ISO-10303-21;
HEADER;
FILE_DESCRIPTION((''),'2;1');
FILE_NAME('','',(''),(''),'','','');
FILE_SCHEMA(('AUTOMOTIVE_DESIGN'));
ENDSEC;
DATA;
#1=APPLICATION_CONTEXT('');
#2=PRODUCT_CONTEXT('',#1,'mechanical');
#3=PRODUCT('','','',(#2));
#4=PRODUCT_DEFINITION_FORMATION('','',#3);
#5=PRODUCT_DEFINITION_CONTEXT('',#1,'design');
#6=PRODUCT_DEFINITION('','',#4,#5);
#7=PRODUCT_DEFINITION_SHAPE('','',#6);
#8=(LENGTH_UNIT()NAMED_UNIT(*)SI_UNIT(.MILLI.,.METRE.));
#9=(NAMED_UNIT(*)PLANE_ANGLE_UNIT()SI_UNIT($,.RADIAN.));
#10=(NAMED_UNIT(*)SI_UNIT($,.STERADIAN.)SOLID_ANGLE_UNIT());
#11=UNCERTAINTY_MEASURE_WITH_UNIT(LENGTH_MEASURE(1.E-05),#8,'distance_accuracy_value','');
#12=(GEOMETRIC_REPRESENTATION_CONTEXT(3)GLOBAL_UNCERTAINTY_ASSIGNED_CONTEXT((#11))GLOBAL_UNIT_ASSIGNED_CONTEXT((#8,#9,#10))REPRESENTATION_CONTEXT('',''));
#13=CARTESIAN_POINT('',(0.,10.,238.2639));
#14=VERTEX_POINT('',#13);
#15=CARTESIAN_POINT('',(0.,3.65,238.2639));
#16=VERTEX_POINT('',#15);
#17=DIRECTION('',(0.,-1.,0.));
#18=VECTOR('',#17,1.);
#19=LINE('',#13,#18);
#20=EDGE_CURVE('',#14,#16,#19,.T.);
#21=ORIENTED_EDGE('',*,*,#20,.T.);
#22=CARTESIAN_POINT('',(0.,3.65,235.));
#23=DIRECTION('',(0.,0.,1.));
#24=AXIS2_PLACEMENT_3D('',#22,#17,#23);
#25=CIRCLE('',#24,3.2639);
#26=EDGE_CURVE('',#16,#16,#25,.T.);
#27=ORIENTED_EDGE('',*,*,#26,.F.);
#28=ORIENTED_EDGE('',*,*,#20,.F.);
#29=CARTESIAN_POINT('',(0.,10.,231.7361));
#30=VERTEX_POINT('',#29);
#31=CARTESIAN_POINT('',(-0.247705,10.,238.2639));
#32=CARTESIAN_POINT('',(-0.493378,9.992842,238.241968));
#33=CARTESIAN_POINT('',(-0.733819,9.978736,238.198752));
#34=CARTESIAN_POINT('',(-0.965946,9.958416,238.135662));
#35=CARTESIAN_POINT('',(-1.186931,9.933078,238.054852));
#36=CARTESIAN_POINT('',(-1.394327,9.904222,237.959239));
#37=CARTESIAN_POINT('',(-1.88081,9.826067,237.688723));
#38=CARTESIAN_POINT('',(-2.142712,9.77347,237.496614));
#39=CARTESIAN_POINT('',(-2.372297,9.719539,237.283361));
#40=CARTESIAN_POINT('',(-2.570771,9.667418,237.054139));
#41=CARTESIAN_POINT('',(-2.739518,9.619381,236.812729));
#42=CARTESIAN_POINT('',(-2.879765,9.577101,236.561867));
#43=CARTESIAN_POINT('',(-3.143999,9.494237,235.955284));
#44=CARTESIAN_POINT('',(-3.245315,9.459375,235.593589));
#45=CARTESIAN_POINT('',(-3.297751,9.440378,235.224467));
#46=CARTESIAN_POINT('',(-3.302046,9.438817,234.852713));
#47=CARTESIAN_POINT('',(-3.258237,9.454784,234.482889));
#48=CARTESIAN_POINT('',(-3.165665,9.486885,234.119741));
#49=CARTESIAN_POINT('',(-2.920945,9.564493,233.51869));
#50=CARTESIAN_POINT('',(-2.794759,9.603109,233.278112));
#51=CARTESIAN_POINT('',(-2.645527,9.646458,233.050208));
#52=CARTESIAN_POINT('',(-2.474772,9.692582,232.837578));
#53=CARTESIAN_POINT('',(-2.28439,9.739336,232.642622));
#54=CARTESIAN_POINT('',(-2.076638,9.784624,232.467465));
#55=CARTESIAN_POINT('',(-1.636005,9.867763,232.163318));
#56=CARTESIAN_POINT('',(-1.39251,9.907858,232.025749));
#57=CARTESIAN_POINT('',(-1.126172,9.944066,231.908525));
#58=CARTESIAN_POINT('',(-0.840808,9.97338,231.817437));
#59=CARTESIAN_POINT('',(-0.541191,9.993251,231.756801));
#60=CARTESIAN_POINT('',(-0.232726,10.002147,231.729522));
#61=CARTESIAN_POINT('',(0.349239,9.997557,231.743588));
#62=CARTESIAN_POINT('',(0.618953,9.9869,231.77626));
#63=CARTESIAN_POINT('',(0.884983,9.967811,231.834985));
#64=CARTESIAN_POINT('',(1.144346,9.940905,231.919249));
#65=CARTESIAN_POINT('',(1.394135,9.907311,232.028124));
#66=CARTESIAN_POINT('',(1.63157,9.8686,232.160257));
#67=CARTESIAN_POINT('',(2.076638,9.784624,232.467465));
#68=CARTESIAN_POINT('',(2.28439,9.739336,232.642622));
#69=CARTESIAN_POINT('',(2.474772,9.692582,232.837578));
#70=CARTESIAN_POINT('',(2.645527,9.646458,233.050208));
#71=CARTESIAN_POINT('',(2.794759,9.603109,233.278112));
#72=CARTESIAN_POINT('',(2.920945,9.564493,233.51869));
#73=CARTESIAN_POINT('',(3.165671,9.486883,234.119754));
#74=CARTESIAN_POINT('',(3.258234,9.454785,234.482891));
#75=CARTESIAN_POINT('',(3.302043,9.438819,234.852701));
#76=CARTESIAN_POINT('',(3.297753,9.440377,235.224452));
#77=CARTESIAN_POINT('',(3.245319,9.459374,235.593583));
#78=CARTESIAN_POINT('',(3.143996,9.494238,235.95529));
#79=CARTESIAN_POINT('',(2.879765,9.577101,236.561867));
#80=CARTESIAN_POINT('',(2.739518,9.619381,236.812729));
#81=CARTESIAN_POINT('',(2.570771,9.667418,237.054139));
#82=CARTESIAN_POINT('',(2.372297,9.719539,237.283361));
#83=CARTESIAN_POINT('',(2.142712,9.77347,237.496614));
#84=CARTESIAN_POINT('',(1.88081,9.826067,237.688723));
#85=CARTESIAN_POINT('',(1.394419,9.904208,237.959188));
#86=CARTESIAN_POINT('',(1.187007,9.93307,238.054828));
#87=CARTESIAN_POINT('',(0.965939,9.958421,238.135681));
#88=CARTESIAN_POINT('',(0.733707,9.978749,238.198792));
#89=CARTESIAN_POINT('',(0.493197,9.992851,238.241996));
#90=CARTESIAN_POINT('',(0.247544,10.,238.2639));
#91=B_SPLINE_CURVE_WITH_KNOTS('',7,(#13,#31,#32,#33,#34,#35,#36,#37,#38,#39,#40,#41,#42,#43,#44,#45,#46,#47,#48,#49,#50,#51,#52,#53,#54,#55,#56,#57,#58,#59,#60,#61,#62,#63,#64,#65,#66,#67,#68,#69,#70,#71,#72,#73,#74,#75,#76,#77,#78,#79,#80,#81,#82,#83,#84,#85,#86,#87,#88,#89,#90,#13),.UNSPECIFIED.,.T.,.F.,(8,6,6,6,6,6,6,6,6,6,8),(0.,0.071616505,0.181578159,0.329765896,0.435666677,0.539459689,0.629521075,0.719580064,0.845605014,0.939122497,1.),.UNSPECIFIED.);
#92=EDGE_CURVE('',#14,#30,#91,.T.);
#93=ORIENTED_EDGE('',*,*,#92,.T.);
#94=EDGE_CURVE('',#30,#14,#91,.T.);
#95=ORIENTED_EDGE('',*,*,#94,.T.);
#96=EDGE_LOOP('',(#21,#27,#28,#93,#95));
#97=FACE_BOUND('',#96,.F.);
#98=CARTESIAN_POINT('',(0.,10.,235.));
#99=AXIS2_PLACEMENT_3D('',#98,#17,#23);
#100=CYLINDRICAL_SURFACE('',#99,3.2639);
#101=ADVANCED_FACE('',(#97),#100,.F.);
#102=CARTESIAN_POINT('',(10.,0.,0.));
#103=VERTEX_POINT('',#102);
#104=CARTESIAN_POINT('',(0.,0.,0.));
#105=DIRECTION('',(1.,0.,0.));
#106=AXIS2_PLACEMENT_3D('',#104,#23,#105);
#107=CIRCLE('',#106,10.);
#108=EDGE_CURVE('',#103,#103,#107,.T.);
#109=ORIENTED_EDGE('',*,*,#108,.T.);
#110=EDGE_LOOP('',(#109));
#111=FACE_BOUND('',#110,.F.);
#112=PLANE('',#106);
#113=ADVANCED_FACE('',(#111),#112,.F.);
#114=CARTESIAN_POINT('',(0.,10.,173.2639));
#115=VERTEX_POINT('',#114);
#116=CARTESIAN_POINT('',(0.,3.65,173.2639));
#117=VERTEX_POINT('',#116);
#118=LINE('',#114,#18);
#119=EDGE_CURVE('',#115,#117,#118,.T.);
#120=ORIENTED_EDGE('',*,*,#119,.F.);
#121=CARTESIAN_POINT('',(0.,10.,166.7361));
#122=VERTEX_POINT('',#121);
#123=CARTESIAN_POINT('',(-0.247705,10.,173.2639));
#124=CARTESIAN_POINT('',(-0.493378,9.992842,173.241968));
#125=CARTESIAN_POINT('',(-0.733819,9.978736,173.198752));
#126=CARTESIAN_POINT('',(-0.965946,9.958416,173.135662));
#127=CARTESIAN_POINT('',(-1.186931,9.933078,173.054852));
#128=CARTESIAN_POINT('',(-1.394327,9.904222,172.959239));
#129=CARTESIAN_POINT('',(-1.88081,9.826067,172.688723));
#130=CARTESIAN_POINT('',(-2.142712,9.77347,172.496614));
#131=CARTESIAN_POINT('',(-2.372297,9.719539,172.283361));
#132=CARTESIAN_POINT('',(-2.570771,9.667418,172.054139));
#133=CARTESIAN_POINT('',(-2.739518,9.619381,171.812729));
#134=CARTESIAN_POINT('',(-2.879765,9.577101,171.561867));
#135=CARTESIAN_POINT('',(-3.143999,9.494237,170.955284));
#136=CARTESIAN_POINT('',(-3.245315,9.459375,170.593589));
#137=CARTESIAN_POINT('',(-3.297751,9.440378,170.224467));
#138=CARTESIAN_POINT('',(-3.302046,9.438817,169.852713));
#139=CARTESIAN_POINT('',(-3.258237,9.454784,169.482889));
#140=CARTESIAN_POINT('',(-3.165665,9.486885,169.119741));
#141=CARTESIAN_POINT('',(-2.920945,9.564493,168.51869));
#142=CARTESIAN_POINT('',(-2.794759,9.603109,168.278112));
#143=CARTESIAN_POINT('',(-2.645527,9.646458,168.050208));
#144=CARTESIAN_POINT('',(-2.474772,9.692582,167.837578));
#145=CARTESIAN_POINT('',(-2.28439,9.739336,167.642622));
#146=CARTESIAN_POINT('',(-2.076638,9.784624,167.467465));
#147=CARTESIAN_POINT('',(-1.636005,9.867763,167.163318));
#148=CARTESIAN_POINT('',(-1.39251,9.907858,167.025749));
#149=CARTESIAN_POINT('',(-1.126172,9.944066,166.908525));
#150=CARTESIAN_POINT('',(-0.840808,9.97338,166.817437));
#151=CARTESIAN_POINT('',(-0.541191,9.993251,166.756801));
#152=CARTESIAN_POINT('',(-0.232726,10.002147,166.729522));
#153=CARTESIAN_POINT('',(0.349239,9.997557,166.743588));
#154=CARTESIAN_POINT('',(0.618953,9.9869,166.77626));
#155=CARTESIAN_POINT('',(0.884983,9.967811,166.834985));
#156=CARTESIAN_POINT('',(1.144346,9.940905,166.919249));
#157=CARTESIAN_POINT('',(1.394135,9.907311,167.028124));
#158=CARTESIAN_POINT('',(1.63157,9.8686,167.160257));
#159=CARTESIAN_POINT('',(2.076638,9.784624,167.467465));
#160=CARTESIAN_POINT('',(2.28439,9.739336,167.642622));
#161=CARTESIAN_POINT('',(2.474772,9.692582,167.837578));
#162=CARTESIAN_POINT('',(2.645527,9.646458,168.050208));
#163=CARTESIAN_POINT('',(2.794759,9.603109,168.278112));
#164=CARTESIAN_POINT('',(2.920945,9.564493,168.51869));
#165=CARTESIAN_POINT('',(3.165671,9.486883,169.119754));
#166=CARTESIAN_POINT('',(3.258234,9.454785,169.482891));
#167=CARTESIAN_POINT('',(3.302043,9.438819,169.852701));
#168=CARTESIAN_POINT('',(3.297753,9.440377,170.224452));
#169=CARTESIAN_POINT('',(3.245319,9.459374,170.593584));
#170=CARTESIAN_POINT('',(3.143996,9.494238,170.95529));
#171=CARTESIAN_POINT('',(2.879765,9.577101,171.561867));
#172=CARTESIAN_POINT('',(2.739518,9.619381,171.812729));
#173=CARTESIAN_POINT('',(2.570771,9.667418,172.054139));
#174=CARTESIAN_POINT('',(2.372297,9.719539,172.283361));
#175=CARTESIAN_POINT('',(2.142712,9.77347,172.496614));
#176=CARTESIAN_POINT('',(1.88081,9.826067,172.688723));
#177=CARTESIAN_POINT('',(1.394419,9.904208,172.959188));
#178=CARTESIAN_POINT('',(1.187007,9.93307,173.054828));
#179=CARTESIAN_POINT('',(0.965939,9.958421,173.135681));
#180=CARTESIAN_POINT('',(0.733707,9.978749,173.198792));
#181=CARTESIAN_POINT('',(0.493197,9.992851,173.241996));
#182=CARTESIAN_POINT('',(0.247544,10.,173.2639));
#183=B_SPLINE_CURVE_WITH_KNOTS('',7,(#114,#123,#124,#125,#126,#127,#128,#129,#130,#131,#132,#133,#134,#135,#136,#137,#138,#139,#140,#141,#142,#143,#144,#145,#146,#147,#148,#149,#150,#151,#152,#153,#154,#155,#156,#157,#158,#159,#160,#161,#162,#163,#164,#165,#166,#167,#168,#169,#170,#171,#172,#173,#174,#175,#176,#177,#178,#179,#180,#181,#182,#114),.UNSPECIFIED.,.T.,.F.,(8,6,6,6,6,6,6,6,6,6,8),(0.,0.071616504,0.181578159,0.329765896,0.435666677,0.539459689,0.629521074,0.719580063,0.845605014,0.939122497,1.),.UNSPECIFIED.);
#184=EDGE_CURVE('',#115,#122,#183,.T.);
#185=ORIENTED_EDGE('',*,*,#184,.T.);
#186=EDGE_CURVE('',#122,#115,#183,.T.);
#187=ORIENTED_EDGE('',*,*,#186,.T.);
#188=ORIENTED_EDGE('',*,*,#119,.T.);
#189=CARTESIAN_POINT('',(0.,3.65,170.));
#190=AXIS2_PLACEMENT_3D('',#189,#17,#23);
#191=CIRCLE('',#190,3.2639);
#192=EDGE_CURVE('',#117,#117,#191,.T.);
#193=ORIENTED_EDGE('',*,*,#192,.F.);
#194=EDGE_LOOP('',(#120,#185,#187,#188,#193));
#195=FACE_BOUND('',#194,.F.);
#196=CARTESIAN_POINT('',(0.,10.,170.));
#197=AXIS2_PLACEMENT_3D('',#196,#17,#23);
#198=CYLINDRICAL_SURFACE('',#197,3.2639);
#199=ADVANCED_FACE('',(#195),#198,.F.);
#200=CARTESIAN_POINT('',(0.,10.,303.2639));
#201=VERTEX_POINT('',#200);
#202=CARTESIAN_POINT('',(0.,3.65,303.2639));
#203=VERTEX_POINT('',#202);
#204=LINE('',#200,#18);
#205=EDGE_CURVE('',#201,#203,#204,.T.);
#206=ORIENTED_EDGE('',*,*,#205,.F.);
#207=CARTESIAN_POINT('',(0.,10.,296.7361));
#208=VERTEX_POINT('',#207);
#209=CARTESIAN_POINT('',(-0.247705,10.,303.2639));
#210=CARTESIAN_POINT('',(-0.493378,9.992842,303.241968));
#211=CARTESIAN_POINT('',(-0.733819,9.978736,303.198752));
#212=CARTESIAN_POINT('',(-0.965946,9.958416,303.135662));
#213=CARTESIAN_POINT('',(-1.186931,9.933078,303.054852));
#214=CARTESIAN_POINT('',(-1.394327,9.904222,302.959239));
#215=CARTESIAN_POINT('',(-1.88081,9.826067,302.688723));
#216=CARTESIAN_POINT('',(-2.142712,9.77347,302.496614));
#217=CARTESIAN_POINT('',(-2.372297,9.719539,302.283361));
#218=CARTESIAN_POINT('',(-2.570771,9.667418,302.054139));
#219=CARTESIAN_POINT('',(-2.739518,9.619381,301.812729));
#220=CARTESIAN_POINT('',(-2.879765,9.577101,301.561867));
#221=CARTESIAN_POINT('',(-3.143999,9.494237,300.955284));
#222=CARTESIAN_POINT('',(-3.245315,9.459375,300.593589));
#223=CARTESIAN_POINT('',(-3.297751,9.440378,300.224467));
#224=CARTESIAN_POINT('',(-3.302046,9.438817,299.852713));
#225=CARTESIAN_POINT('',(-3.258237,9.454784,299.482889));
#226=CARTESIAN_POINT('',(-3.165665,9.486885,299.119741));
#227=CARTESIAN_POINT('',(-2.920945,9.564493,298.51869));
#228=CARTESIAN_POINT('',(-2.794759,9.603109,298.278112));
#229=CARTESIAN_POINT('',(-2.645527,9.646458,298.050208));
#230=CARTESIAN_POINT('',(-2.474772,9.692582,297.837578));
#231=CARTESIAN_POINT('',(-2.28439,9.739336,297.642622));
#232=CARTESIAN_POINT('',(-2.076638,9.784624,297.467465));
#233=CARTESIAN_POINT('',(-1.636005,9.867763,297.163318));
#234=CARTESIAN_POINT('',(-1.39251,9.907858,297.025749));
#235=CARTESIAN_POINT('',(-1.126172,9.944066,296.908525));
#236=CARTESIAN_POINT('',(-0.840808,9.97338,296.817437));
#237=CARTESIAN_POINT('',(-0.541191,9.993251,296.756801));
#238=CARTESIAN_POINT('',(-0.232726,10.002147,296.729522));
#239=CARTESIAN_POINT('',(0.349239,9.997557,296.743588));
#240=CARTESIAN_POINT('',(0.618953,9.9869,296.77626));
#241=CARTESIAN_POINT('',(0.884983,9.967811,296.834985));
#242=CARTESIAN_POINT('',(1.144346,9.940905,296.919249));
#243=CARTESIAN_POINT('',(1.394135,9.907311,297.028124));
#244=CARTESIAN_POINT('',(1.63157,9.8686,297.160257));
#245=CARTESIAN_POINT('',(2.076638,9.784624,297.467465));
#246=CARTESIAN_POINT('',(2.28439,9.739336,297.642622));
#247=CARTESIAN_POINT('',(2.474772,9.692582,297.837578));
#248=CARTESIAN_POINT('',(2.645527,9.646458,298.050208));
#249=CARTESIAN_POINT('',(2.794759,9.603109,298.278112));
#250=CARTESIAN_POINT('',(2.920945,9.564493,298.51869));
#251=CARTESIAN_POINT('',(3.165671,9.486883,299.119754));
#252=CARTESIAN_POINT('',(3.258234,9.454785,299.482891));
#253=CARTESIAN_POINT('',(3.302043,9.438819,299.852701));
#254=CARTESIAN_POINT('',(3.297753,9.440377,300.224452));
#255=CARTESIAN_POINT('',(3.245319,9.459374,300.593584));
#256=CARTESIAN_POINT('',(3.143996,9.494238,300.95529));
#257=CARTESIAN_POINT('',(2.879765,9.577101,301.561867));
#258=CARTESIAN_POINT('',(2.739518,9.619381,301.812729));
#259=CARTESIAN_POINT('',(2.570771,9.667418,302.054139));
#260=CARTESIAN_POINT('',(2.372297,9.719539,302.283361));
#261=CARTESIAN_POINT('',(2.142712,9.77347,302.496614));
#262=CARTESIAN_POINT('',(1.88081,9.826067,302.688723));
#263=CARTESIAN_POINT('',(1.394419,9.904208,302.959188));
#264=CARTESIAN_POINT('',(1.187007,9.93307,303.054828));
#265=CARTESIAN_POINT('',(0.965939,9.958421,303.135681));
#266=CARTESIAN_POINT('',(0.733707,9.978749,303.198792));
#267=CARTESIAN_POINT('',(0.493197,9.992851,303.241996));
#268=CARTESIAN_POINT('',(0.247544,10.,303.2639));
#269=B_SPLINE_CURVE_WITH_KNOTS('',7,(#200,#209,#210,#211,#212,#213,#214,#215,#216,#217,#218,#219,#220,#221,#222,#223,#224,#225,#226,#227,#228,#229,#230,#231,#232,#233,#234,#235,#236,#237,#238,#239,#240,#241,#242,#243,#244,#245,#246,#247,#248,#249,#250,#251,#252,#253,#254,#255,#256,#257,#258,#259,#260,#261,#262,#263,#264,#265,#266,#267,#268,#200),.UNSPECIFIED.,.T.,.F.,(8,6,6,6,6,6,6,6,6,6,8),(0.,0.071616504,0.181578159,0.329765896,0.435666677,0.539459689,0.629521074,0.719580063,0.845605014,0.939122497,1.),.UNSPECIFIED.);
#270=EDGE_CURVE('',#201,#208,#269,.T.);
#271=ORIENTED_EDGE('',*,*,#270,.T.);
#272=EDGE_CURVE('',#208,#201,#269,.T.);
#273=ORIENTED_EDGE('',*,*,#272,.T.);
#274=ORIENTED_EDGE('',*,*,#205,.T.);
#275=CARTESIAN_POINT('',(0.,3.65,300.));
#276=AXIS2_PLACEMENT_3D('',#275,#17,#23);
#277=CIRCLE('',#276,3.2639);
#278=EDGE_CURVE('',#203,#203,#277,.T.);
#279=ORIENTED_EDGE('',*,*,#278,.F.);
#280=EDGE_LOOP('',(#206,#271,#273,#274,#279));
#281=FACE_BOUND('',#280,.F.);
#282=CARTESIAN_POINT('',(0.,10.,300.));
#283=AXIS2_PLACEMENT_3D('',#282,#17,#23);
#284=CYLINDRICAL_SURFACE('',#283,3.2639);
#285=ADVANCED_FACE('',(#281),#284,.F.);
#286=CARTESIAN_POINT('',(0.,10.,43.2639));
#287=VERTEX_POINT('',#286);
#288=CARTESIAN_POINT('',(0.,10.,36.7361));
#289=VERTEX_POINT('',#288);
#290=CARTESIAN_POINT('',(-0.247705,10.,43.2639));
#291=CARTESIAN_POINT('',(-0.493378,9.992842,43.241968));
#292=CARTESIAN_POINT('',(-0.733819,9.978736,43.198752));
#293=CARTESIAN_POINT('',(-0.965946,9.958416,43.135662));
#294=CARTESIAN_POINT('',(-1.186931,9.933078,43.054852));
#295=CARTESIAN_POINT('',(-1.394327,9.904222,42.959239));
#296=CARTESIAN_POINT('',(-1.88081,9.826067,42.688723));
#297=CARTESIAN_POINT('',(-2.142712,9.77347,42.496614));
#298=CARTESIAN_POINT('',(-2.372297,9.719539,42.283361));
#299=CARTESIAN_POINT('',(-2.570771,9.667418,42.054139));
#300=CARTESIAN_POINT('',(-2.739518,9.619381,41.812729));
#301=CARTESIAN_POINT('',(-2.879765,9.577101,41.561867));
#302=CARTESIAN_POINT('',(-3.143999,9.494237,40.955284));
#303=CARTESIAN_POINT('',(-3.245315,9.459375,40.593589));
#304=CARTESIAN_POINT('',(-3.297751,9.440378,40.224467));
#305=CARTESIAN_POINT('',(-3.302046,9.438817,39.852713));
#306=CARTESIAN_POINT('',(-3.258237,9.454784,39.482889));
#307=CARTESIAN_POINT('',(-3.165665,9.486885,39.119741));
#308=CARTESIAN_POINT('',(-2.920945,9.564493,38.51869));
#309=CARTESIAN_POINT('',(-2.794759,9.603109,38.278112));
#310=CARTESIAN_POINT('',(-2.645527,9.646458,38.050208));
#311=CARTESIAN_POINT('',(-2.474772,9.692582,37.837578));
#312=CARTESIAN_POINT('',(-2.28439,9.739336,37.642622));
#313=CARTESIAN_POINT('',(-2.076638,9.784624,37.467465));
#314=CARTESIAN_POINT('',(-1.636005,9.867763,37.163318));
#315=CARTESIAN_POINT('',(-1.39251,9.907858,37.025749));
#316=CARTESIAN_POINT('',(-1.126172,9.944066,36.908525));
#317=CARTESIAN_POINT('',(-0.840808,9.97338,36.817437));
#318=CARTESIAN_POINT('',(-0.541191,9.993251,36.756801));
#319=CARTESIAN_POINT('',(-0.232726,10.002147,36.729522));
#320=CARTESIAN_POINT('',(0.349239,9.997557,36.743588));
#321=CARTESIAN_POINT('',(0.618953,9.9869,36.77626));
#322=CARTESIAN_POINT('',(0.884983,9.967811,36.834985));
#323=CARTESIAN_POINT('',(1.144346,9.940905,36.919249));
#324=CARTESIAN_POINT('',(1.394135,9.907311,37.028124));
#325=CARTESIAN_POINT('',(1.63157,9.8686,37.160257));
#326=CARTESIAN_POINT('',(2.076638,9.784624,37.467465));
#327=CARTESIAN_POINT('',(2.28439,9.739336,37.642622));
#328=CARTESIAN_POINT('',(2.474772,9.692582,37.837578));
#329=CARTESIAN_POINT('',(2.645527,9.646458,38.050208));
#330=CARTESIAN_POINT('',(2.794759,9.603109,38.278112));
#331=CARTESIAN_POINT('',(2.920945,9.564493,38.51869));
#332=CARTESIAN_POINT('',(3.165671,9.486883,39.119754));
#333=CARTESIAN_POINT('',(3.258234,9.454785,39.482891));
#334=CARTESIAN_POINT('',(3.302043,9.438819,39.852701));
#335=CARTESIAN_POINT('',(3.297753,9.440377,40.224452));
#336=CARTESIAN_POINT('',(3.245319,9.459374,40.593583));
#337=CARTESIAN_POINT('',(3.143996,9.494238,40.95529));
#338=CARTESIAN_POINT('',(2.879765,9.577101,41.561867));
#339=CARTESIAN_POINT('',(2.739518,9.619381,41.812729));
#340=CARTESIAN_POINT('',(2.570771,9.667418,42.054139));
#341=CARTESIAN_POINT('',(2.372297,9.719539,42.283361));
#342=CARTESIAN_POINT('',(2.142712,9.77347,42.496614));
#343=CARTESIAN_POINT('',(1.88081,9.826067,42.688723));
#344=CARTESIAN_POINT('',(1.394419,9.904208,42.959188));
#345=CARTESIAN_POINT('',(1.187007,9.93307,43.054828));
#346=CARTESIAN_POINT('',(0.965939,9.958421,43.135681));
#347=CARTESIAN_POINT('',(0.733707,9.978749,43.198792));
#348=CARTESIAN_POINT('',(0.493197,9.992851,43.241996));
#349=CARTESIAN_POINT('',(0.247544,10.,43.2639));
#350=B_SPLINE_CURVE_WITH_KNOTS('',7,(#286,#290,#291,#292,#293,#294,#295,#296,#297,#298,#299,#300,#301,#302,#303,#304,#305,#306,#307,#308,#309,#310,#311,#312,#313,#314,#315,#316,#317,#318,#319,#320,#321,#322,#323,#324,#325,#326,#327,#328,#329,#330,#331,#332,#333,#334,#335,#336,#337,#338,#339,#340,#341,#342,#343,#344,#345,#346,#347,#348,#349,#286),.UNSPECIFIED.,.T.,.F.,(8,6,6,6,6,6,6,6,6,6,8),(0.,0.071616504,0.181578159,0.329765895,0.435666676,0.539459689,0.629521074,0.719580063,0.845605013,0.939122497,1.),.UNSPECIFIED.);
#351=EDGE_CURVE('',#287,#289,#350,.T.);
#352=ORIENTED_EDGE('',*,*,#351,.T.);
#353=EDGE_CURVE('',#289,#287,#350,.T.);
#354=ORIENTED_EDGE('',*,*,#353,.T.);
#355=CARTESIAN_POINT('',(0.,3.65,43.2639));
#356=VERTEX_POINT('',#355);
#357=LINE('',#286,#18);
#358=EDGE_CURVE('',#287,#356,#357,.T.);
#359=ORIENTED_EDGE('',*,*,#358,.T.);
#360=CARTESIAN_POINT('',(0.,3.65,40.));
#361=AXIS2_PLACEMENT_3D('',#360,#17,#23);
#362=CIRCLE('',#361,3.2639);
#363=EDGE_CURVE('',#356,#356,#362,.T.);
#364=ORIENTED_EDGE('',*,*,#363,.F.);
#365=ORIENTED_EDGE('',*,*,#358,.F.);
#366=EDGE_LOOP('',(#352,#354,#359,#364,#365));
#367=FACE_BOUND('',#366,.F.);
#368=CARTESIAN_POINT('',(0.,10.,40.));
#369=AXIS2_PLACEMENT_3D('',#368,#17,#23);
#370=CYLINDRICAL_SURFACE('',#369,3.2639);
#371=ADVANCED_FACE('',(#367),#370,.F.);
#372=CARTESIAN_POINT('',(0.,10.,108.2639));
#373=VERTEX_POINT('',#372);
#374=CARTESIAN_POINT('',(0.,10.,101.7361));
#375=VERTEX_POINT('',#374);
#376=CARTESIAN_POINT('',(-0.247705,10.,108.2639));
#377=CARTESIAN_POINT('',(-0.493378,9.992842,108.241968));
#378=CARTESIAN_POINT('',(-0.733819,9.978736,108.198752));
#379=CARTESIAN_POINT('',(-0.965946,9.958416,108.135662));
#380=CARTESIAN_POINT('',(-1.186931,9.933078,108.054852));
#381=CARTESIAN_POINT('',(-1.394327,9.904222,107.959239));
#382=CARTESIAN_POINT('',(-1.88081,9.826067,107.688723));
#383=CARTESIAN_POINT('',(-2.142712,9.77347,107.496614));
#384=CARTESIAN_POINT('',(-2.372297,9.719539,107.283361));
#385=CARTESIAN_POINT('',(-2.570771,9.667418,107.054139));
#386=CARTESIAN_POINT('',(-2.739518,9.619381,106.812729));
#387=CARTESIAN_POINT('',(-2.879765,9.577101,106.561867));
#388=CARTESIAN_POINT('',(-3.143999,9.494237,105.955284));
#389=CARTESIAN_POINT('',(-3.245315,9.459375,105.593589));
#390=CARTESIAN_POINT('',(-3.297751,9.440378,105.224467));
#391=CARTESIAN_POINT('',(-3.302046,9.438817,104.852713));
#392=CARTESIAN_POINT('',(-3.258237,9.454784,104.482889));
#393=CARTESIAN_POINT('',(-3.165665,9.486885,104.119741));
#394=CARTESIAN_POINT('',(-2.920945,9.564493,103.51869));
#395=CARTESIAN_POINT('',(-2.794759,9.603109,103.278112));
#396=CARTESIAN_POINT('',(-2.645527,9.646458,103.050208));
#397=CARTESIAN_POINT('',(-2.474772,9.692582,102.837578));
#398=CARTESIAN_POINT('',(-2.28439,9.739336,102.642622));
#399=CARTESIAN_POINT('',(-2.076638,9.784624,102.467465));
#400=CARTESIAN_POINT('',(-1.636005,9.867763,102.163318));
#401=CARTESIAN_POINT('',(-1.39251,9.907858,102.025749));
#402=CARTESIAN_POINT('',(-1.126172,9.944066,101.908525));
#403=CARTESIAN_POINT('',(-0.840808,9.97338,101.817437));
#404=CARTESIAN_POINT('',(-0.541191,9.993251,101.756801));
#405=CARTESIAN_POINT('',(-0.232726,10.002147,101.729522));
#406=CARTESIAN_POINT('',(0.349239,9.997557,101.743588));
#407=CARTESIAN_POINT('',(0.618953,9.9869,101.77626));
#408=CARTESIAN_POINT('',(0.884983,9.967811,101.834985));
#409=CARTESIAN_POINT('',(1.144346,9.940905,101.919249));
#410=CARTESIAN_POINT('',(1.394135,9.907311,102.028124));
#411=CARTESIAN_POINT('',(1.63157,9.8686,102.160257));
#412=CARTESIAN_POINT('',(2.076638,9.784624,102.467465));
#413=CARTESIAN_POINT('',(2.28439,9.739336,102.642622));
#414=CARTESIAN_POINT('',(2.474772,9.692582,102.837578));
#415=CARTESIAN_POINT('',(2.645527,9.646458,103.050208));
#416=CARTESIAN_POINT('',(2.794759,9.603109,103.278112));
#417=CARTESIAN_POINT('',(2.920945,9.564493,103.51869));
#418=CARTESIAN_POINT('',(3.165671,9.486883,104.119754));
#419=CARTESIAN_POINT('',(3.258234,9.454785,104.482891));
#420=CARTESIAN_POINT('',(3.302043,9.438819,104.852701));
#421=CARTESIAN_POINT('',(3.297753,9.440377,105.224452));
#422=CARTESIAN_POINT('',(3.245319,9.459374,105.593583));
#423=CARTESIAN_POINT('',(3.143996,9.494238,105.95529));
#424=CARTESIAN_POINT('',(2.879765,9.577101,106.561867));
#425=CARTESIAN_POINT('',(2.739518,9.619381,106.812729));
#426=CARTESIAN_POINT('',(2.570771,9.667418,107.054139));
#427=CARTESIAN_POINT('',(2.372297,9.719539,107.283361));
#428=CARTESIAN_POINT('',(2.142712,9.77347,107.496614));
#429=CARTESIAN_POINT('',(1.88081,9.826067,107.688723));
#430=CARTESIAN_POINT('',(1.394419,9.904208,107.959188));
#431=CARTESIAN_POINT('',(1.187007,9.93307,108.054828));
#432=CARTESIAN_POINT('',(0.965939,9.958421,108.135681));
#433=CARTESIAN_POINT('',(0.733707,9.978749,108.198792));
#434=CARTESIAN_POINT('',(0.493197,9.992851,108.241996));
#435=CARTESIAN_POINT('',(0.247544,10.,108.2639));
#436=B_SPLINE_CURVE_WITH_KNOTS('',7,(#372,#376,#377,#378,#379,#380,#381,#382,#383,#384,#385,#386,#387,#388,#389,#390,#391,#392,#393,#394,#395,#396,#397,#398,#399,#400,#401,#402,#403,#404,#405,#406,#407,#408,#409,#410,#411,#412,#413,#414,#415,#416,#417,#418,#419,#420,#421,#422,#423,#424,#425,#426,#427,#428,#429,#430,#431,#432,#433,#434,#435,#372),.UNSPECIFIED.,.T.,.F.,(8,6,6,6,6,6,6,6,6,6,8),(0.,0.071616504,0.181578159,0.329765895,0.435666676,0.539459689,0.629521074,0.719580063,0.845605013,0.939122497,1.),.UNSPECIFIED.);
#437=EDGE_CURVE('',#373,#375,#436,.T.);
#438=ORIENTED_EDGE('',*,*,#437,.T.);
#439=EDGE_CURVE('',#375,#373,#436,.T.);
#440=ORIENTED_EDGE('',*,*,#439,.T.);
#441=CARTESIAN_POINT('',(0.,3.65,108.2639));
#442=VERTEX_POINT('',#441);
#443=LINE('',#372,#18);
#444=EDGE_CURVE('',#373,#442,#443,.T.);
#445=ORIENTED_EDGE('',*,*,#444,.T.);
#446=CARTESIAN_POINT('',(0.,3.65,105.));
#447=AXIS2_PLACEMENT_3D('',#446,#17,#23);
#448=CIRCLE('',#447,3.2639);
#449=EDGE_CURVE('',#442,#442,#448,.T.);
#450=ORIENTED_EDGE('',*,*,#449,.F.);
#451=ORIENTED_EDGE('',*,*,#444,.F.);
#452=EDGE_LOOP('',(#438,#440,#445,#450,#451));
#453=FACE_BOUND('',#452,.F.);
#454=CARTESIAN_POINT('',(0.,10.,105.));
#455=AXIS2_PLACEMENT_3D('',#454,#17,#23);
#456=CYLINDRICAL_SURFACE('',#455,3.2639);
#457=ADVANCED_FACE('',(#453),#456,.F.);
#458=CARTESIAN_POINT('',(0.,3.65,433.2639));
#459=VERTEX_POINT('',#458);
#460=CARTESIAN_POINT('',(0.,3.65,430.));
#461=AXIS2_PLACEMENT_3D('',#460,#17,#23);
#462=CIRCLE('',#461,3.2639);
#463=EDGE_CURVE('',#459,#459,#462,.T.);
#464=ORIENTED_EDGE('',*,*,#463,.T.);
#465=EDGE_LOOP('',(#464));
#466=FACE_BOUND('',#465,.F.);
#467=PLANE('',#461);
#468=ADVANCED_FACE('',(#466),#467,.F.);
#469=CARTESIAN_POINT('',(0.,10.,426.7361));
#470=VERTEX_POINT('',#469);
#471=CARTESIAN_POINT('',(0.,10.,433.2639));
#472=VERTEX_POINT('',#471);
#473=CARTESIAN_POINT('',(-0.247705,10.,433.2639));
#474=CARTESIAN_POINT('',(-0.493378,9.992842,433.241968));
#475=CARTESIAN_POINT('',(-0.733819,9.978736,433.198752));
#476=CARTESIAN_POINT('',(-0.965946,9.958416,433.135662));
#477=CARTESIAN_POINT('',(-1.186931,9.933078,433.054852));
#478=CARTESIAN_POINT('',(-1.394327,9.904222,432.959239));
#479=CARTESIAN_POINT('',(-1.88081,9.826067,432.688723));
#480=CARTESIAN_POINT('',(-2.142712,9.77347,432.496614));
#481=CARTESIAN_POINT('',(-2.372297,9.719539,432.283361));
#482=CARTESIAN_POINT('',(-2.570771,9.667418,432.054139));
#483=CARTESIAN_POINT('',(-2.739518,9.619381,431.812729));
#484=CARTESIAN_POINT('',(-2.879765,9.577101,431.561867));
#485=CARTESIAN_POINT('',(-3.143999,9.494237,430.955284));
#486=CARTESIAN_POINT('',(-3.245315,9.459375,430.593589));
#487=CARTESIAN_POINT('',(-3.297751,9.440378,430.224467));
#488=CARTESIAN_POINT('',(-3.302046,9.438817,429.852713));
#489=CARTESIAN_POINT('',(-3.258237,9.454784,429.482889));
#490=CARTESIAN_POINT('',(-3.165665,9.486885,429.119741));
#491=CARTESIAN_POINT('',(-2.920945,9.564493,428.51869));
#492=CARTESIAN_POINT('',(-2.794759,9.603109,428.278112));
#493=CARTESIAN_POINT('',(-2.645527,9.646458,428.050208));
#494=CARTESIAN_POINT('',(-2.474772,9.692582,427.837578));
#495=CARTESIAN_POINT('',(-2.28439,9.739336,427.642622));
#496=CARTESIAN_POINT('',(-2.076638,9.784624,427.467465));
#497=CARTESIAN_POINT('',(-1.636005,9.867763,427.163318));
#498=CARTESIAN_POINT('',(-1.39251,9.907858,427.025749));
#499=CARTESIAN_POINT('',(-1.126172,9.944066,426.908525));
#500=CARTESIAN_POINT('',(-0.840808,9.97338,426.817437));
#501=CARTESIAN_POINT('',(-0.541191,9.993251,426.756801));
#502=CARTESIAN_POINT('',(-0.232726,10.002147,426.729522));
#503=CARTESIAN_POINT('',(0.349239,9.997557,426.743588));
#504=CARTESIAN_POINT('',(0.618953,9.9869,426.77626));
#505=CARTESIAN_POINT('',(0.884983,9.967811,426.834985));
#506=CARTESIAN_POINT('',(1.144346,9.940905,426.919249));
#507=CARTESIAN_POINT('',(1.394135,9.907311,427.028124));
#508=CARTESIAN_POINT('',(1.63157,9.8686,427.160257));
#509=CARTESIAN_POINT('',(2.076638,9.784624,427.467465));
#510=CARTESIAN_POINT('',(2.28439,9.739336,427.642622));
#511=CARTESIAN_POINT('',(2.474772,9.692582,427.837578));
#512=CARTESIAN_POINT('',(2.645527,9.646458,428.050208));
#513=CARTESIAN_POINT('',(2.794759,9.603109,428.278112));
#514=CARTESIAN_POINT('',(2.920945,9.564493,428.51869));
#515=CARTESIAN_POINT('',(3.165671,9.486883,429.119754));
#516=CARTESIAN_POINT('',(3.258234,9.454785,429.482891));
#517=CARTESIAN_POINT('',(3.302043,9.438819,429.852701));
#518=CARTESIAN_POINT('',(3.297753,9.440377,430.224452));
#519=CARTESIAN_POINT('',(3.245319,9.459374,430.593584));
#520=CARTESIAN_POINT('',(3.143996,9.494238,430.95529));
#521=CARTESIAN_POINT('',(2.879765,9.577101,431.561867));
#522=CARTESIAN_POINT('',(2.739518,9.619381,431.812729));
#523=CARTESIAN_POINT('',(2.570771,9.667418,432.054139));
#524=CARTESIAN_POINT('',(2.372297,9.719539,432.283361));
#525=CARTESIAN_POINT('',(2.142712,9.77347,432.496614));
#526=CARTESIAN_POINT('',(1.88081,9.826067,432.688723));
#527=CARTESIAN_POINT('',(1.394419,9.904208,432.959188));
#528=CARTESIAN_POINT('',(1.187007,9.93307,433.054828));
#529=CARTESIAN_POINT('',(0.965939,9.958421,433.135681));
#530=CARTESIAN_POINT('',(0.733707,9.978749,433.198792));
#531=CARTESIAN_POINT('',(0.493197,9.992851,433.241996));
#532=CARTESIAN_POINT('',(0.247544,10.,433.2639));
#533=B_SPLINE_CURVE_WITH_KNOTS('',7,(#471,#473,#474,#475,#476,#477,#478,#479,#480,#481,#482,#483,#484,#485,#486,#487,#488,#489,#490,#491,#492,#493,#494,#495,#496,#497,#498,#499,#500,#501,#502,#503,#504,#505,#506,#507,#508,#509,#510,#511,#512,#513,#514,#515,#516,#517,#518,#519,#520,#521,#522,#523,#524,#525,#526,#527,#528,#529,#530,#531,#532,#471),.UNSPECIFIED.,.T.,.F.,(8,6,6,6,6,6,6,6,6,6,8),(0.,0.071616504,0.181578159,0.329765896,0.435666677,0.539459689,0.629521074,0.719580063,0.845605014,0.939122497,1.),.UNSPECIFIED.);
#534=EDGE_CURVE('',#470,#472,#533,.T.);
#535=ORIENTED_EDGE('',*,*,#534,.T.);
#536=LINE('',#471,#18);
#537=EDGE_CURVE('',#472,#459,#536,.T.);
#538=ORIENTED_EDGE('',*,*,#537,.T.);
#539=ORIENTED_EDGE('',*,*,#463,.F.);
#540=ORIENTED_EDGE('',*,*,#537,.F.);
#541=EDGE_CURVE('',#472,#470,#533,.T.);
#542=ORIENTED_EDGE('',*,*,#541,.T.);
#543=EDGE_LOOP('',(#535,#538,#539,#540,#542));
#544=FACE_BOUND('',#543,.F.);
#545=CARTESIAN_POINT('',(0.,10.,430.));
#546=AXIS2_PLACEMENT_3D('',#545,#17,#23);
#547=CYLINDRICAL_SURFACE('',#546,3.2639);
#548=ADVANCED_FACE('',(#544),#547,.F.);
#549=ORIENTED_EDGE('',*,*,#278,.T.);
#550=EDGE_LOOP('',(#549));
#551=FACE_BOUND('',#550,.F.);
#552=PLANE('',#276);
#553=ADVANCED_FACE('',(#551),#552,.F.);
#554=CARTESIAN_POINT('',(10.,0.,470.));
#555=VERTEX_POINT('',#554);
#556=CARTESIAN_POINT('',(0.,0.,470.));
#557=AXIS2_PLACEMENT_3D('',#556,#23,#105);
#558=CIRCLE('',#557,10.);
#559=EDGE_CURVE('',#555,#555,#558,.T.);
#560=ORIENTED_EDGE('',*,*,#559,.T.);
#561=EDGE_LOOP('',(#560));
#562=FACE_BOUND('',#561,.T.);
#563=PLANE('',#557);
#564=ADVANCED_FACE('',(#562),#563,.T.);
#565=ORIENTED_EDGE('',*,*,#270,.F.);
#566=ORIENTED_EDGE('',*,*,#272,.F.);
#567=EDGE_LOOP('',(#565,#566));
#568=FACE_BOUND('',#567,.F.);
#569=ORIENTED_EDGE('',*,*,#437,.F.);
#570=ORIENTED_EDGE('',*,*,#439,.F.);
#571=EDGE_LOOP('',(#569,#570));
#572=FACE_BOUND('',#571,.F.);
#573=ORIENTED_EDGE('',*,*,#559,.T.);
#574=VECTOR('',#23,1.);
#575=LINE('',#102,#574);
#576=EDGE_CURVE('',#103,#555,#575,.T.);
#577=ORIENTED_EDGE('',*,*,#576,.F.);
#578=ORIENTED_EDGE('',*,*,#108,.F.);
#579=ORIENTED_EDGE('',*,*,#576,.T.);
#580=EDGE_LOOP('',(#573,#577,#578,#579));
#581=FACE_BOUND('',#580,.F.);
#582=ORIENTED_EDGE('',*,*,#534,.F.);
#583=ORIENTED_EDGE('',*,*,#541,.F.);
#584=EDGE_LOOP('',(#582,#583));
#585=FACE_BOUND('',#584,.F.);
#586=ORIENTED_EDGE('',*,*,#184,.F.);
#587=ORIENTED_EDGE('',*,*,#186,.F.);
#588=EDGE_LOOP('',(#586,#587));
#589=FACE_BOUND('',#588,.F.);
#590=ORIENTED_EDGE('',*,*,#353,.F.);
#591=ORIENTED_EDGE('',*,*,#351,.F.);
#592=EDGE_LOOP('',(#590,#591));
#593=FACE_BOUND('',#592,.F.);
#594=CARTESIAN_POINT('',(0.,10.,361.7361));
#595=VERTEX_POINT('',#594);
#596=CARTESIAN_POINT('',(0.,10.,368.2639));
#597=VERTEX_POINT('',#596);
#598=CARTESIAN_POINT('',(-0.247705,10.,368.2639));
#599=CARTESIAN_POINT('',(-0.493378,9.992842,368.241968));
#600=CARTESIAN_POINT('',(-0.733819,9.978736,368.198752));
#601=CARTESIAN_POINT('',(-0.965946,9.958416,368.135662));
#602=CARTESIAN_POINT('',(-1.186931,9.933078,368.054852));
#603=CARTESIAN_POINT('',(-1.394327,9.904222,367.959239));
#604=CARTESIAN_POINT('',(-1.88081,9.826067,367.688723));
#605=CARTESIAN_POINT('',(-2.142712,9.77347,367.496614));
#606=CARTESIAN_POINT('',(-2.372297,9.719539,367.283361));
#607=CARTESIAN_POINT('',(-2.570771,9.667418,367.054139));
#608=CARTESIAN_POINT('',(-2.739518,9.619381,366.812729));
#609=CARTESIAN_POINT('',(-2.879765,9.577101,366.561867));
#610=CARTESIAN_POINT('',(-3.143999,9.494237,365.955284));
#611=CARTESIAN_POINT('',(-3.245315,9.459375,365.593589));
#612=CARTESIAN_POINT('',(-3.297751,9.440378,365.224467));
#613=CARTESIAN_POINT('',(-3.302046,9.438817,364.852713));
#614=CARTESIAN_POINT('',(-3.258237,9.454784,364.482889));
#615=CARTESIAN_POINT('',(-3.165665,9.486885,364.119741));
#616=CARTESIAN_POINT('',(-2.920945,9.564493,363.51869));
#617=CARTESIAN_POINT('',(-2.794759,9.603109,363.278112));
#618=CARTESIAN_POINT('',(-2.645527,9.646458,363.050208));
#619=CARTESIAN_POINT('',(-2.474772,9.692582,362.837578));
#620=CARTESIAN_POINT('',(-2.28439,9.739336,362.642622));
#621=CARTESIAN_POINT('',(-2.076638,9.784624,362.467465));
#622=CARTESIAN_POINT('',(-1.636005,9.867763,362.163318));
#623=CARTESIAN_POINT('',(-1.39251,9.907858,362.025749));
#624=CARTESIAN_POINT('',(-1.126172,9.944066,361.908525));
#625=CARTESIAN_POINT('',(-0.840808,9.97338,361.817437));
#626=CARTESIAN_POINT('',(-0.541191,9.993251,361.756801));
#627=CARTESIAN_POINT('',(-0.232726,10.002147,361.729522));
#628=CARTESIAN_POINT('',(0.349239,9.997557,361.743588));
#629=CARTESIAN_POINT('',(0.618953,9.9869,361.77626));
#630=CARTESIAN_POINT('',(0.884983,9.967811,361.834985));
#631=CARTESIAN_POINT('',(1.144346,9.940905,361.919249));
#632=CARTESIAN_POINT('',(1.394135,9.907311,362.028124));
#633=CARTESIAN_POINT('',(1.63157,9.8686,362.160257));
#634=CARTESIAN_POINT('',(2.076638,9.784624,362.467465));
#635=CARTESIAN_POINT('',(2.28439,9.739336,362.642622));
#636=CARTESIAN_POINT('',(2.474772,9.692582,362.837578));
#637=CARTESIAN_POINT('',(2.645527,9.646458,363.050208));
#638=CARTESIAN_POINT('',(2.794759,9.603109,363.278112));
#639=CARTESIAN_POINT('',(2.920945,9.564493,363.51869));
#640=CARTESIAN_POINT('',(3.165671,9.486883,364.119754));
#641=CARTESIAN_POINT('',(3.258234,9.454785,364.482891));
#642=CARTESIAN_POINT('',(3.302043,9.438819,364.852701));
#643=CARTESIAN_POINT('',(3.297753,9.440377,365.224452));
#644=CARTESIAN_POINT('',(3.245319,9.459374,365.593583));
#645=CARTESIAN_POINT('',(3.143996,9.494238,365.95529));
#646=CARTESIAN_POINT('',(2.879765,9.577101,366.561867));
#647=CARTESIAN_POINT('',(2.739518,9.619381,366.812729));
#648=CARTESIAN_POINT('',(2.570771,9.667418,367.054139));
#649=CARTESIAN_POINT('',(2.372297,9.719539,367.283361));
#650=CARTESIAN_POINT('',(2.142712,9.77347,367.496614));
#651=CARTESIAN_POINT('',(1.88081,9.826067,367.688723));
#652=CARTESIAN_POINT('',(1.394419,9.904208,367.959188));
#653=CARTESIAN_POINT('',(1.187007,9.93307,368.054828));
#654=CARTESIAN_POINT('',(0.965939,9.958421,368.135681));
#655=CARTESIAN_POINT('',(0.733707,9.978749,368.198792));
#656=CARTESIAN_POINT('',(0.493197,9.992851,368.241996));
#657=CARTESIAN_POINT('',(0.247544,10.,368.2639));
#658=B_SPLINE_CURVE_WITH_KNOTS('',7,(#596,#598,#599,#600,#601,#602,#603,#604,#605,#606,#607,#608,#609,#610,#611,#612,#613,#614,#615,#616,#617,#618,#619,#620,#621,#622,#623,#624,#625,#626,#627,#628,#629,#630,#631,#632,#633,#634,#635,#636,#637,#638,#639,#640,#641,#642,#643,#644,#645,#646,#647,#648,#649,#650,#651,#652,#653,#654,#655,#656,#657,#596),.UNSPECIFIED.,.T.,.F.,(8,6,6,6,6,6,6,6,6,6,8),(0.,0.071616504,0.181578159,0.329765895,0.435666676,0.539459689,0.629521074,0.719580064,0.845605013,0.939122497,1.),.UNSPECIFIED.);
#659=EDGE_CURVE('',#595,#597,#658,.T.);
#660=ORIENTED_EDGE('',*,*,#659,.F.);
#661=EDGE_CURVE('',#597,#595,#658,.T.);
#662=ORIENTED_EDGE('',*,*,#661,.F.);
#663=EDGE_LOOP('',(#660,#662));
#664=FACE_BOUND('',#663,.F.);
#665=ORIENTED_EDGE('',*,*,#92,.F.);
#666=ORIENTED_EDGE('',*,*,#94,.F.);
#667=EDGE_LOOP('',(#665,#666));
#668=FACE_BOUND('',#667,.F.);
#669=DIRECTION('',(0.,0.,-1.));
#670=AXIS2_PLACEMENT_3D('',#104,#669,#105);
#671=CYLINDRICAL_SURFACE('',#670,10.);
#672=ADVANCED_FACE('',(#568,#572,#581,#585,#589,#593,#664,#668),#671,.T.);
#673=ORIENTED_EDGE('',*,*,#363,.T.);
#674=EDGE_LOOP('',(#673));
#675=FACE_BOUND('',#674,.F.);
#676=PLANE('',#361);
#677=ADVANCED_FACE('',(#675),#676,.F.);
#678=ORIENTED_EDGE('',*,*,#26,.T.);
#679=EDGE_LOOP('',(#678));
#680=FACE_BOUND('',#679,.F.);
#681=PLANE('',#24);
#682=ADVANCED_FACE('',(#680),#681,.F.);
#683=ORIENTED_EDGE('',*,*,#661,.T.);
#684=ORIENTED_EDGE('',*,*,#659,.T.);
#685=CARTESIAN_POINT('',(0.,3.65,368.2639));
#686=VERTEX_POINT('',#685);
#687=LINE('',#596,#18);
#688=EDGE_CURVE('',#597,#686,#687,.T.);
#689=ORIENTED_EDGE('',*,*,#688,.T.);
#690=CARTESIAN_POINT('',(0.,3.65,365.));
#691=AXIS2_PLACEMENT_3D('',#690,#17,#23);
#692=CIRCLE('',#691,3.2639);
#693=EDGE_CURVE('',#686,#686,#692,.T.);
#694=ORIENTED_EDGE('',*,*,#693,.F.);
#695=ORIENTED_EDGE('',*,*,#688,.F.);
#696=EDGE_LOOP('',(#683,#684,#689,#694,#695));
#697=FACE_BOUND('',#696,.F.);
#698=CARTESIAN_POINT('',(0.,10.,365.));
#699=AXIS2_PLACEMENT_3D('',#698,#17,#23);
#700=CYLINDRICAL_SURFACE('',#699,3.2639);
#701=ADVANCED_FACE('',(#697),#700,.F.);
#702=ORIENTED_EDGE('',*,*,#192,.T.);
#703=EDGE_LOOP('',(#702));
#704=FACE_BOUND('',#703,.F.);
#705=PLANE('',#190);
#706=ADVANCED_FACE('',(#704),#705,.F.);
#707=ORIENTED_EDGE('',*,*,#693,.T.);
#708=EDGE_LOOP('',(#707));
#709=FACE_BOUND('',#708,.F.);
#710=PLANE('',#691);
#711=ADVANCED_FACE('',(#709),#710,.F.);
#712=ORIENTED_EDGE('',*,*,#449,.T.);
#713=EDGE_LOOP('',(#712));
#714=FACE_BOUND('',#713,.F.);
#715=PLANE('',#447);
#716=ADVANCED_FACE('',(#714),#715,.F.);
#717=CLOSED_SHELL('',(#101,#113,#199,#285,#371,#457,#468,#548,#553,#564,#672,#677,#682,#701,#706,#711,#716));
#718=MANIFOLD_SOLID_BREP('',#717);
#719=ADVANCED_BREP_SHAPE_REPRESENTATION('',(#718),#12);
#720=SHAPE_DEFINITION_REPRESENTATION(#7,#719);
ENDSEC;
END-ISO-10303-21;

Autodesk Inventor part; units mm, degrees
ref_plane "YZ Plane" through (0, 0, 0) normal (1, 0, 0) x (0, 1, 0)
ref_plane "XZ Plane" through (0, 0, 0) normal (0, 1, 0) x (-1, 0, 0)
sketch "Sketch1" plane through (0, 0, 0) normal (0, 0, 1) x (1, 0, 0)
  circle A0 centre (0, 0) radius 10
  dimension "d0" = 20
extrude "Extrusion1" add sketch "Sketch1" along normal blind 470
sketch "Sketch2" plane through (0, 0, 470) normal (0, 0, 1) x (1, 0, 0)
  circle A0 centre (0, 0) radius 10 projected
  point P0 (0, 10)
ref_plane "Work Plane1" through (0, 10, 470) normal (0, 1, 0) x (-1, 0, 0)
sketch "Sketch3" plane through (0, 10, 470) normal (0, 1, 0) x (-1, 0, 0)
  line L0 (10, 0) -> (-10, 0) projected
  line L1 (0, 0) -> (0, -7.8686) construction
  point P0 (0, -470)
  point P1 (0, -40)
  point P2 (0, -105)
  point P3 (0, -170)
  point P4 (0, -235)
  point P5 (0, -300)
  point P6 (0, -365)
  point P7 (0, -430)
  dimension "d3" = 40
  dimension "d6" = 65
  dimension "d18" = 40
hole "Hole1" at (0, 10, 430) at (0, 10, 365) at (0, 10, 300) at (0, 10, 235) at (0, 10, 170) at (0, 10, 105) at (0, 10, 40) direction (0, -1, 0) diameter 6.5278 depth 6.35
properties part number "diy-rail_470mm"
